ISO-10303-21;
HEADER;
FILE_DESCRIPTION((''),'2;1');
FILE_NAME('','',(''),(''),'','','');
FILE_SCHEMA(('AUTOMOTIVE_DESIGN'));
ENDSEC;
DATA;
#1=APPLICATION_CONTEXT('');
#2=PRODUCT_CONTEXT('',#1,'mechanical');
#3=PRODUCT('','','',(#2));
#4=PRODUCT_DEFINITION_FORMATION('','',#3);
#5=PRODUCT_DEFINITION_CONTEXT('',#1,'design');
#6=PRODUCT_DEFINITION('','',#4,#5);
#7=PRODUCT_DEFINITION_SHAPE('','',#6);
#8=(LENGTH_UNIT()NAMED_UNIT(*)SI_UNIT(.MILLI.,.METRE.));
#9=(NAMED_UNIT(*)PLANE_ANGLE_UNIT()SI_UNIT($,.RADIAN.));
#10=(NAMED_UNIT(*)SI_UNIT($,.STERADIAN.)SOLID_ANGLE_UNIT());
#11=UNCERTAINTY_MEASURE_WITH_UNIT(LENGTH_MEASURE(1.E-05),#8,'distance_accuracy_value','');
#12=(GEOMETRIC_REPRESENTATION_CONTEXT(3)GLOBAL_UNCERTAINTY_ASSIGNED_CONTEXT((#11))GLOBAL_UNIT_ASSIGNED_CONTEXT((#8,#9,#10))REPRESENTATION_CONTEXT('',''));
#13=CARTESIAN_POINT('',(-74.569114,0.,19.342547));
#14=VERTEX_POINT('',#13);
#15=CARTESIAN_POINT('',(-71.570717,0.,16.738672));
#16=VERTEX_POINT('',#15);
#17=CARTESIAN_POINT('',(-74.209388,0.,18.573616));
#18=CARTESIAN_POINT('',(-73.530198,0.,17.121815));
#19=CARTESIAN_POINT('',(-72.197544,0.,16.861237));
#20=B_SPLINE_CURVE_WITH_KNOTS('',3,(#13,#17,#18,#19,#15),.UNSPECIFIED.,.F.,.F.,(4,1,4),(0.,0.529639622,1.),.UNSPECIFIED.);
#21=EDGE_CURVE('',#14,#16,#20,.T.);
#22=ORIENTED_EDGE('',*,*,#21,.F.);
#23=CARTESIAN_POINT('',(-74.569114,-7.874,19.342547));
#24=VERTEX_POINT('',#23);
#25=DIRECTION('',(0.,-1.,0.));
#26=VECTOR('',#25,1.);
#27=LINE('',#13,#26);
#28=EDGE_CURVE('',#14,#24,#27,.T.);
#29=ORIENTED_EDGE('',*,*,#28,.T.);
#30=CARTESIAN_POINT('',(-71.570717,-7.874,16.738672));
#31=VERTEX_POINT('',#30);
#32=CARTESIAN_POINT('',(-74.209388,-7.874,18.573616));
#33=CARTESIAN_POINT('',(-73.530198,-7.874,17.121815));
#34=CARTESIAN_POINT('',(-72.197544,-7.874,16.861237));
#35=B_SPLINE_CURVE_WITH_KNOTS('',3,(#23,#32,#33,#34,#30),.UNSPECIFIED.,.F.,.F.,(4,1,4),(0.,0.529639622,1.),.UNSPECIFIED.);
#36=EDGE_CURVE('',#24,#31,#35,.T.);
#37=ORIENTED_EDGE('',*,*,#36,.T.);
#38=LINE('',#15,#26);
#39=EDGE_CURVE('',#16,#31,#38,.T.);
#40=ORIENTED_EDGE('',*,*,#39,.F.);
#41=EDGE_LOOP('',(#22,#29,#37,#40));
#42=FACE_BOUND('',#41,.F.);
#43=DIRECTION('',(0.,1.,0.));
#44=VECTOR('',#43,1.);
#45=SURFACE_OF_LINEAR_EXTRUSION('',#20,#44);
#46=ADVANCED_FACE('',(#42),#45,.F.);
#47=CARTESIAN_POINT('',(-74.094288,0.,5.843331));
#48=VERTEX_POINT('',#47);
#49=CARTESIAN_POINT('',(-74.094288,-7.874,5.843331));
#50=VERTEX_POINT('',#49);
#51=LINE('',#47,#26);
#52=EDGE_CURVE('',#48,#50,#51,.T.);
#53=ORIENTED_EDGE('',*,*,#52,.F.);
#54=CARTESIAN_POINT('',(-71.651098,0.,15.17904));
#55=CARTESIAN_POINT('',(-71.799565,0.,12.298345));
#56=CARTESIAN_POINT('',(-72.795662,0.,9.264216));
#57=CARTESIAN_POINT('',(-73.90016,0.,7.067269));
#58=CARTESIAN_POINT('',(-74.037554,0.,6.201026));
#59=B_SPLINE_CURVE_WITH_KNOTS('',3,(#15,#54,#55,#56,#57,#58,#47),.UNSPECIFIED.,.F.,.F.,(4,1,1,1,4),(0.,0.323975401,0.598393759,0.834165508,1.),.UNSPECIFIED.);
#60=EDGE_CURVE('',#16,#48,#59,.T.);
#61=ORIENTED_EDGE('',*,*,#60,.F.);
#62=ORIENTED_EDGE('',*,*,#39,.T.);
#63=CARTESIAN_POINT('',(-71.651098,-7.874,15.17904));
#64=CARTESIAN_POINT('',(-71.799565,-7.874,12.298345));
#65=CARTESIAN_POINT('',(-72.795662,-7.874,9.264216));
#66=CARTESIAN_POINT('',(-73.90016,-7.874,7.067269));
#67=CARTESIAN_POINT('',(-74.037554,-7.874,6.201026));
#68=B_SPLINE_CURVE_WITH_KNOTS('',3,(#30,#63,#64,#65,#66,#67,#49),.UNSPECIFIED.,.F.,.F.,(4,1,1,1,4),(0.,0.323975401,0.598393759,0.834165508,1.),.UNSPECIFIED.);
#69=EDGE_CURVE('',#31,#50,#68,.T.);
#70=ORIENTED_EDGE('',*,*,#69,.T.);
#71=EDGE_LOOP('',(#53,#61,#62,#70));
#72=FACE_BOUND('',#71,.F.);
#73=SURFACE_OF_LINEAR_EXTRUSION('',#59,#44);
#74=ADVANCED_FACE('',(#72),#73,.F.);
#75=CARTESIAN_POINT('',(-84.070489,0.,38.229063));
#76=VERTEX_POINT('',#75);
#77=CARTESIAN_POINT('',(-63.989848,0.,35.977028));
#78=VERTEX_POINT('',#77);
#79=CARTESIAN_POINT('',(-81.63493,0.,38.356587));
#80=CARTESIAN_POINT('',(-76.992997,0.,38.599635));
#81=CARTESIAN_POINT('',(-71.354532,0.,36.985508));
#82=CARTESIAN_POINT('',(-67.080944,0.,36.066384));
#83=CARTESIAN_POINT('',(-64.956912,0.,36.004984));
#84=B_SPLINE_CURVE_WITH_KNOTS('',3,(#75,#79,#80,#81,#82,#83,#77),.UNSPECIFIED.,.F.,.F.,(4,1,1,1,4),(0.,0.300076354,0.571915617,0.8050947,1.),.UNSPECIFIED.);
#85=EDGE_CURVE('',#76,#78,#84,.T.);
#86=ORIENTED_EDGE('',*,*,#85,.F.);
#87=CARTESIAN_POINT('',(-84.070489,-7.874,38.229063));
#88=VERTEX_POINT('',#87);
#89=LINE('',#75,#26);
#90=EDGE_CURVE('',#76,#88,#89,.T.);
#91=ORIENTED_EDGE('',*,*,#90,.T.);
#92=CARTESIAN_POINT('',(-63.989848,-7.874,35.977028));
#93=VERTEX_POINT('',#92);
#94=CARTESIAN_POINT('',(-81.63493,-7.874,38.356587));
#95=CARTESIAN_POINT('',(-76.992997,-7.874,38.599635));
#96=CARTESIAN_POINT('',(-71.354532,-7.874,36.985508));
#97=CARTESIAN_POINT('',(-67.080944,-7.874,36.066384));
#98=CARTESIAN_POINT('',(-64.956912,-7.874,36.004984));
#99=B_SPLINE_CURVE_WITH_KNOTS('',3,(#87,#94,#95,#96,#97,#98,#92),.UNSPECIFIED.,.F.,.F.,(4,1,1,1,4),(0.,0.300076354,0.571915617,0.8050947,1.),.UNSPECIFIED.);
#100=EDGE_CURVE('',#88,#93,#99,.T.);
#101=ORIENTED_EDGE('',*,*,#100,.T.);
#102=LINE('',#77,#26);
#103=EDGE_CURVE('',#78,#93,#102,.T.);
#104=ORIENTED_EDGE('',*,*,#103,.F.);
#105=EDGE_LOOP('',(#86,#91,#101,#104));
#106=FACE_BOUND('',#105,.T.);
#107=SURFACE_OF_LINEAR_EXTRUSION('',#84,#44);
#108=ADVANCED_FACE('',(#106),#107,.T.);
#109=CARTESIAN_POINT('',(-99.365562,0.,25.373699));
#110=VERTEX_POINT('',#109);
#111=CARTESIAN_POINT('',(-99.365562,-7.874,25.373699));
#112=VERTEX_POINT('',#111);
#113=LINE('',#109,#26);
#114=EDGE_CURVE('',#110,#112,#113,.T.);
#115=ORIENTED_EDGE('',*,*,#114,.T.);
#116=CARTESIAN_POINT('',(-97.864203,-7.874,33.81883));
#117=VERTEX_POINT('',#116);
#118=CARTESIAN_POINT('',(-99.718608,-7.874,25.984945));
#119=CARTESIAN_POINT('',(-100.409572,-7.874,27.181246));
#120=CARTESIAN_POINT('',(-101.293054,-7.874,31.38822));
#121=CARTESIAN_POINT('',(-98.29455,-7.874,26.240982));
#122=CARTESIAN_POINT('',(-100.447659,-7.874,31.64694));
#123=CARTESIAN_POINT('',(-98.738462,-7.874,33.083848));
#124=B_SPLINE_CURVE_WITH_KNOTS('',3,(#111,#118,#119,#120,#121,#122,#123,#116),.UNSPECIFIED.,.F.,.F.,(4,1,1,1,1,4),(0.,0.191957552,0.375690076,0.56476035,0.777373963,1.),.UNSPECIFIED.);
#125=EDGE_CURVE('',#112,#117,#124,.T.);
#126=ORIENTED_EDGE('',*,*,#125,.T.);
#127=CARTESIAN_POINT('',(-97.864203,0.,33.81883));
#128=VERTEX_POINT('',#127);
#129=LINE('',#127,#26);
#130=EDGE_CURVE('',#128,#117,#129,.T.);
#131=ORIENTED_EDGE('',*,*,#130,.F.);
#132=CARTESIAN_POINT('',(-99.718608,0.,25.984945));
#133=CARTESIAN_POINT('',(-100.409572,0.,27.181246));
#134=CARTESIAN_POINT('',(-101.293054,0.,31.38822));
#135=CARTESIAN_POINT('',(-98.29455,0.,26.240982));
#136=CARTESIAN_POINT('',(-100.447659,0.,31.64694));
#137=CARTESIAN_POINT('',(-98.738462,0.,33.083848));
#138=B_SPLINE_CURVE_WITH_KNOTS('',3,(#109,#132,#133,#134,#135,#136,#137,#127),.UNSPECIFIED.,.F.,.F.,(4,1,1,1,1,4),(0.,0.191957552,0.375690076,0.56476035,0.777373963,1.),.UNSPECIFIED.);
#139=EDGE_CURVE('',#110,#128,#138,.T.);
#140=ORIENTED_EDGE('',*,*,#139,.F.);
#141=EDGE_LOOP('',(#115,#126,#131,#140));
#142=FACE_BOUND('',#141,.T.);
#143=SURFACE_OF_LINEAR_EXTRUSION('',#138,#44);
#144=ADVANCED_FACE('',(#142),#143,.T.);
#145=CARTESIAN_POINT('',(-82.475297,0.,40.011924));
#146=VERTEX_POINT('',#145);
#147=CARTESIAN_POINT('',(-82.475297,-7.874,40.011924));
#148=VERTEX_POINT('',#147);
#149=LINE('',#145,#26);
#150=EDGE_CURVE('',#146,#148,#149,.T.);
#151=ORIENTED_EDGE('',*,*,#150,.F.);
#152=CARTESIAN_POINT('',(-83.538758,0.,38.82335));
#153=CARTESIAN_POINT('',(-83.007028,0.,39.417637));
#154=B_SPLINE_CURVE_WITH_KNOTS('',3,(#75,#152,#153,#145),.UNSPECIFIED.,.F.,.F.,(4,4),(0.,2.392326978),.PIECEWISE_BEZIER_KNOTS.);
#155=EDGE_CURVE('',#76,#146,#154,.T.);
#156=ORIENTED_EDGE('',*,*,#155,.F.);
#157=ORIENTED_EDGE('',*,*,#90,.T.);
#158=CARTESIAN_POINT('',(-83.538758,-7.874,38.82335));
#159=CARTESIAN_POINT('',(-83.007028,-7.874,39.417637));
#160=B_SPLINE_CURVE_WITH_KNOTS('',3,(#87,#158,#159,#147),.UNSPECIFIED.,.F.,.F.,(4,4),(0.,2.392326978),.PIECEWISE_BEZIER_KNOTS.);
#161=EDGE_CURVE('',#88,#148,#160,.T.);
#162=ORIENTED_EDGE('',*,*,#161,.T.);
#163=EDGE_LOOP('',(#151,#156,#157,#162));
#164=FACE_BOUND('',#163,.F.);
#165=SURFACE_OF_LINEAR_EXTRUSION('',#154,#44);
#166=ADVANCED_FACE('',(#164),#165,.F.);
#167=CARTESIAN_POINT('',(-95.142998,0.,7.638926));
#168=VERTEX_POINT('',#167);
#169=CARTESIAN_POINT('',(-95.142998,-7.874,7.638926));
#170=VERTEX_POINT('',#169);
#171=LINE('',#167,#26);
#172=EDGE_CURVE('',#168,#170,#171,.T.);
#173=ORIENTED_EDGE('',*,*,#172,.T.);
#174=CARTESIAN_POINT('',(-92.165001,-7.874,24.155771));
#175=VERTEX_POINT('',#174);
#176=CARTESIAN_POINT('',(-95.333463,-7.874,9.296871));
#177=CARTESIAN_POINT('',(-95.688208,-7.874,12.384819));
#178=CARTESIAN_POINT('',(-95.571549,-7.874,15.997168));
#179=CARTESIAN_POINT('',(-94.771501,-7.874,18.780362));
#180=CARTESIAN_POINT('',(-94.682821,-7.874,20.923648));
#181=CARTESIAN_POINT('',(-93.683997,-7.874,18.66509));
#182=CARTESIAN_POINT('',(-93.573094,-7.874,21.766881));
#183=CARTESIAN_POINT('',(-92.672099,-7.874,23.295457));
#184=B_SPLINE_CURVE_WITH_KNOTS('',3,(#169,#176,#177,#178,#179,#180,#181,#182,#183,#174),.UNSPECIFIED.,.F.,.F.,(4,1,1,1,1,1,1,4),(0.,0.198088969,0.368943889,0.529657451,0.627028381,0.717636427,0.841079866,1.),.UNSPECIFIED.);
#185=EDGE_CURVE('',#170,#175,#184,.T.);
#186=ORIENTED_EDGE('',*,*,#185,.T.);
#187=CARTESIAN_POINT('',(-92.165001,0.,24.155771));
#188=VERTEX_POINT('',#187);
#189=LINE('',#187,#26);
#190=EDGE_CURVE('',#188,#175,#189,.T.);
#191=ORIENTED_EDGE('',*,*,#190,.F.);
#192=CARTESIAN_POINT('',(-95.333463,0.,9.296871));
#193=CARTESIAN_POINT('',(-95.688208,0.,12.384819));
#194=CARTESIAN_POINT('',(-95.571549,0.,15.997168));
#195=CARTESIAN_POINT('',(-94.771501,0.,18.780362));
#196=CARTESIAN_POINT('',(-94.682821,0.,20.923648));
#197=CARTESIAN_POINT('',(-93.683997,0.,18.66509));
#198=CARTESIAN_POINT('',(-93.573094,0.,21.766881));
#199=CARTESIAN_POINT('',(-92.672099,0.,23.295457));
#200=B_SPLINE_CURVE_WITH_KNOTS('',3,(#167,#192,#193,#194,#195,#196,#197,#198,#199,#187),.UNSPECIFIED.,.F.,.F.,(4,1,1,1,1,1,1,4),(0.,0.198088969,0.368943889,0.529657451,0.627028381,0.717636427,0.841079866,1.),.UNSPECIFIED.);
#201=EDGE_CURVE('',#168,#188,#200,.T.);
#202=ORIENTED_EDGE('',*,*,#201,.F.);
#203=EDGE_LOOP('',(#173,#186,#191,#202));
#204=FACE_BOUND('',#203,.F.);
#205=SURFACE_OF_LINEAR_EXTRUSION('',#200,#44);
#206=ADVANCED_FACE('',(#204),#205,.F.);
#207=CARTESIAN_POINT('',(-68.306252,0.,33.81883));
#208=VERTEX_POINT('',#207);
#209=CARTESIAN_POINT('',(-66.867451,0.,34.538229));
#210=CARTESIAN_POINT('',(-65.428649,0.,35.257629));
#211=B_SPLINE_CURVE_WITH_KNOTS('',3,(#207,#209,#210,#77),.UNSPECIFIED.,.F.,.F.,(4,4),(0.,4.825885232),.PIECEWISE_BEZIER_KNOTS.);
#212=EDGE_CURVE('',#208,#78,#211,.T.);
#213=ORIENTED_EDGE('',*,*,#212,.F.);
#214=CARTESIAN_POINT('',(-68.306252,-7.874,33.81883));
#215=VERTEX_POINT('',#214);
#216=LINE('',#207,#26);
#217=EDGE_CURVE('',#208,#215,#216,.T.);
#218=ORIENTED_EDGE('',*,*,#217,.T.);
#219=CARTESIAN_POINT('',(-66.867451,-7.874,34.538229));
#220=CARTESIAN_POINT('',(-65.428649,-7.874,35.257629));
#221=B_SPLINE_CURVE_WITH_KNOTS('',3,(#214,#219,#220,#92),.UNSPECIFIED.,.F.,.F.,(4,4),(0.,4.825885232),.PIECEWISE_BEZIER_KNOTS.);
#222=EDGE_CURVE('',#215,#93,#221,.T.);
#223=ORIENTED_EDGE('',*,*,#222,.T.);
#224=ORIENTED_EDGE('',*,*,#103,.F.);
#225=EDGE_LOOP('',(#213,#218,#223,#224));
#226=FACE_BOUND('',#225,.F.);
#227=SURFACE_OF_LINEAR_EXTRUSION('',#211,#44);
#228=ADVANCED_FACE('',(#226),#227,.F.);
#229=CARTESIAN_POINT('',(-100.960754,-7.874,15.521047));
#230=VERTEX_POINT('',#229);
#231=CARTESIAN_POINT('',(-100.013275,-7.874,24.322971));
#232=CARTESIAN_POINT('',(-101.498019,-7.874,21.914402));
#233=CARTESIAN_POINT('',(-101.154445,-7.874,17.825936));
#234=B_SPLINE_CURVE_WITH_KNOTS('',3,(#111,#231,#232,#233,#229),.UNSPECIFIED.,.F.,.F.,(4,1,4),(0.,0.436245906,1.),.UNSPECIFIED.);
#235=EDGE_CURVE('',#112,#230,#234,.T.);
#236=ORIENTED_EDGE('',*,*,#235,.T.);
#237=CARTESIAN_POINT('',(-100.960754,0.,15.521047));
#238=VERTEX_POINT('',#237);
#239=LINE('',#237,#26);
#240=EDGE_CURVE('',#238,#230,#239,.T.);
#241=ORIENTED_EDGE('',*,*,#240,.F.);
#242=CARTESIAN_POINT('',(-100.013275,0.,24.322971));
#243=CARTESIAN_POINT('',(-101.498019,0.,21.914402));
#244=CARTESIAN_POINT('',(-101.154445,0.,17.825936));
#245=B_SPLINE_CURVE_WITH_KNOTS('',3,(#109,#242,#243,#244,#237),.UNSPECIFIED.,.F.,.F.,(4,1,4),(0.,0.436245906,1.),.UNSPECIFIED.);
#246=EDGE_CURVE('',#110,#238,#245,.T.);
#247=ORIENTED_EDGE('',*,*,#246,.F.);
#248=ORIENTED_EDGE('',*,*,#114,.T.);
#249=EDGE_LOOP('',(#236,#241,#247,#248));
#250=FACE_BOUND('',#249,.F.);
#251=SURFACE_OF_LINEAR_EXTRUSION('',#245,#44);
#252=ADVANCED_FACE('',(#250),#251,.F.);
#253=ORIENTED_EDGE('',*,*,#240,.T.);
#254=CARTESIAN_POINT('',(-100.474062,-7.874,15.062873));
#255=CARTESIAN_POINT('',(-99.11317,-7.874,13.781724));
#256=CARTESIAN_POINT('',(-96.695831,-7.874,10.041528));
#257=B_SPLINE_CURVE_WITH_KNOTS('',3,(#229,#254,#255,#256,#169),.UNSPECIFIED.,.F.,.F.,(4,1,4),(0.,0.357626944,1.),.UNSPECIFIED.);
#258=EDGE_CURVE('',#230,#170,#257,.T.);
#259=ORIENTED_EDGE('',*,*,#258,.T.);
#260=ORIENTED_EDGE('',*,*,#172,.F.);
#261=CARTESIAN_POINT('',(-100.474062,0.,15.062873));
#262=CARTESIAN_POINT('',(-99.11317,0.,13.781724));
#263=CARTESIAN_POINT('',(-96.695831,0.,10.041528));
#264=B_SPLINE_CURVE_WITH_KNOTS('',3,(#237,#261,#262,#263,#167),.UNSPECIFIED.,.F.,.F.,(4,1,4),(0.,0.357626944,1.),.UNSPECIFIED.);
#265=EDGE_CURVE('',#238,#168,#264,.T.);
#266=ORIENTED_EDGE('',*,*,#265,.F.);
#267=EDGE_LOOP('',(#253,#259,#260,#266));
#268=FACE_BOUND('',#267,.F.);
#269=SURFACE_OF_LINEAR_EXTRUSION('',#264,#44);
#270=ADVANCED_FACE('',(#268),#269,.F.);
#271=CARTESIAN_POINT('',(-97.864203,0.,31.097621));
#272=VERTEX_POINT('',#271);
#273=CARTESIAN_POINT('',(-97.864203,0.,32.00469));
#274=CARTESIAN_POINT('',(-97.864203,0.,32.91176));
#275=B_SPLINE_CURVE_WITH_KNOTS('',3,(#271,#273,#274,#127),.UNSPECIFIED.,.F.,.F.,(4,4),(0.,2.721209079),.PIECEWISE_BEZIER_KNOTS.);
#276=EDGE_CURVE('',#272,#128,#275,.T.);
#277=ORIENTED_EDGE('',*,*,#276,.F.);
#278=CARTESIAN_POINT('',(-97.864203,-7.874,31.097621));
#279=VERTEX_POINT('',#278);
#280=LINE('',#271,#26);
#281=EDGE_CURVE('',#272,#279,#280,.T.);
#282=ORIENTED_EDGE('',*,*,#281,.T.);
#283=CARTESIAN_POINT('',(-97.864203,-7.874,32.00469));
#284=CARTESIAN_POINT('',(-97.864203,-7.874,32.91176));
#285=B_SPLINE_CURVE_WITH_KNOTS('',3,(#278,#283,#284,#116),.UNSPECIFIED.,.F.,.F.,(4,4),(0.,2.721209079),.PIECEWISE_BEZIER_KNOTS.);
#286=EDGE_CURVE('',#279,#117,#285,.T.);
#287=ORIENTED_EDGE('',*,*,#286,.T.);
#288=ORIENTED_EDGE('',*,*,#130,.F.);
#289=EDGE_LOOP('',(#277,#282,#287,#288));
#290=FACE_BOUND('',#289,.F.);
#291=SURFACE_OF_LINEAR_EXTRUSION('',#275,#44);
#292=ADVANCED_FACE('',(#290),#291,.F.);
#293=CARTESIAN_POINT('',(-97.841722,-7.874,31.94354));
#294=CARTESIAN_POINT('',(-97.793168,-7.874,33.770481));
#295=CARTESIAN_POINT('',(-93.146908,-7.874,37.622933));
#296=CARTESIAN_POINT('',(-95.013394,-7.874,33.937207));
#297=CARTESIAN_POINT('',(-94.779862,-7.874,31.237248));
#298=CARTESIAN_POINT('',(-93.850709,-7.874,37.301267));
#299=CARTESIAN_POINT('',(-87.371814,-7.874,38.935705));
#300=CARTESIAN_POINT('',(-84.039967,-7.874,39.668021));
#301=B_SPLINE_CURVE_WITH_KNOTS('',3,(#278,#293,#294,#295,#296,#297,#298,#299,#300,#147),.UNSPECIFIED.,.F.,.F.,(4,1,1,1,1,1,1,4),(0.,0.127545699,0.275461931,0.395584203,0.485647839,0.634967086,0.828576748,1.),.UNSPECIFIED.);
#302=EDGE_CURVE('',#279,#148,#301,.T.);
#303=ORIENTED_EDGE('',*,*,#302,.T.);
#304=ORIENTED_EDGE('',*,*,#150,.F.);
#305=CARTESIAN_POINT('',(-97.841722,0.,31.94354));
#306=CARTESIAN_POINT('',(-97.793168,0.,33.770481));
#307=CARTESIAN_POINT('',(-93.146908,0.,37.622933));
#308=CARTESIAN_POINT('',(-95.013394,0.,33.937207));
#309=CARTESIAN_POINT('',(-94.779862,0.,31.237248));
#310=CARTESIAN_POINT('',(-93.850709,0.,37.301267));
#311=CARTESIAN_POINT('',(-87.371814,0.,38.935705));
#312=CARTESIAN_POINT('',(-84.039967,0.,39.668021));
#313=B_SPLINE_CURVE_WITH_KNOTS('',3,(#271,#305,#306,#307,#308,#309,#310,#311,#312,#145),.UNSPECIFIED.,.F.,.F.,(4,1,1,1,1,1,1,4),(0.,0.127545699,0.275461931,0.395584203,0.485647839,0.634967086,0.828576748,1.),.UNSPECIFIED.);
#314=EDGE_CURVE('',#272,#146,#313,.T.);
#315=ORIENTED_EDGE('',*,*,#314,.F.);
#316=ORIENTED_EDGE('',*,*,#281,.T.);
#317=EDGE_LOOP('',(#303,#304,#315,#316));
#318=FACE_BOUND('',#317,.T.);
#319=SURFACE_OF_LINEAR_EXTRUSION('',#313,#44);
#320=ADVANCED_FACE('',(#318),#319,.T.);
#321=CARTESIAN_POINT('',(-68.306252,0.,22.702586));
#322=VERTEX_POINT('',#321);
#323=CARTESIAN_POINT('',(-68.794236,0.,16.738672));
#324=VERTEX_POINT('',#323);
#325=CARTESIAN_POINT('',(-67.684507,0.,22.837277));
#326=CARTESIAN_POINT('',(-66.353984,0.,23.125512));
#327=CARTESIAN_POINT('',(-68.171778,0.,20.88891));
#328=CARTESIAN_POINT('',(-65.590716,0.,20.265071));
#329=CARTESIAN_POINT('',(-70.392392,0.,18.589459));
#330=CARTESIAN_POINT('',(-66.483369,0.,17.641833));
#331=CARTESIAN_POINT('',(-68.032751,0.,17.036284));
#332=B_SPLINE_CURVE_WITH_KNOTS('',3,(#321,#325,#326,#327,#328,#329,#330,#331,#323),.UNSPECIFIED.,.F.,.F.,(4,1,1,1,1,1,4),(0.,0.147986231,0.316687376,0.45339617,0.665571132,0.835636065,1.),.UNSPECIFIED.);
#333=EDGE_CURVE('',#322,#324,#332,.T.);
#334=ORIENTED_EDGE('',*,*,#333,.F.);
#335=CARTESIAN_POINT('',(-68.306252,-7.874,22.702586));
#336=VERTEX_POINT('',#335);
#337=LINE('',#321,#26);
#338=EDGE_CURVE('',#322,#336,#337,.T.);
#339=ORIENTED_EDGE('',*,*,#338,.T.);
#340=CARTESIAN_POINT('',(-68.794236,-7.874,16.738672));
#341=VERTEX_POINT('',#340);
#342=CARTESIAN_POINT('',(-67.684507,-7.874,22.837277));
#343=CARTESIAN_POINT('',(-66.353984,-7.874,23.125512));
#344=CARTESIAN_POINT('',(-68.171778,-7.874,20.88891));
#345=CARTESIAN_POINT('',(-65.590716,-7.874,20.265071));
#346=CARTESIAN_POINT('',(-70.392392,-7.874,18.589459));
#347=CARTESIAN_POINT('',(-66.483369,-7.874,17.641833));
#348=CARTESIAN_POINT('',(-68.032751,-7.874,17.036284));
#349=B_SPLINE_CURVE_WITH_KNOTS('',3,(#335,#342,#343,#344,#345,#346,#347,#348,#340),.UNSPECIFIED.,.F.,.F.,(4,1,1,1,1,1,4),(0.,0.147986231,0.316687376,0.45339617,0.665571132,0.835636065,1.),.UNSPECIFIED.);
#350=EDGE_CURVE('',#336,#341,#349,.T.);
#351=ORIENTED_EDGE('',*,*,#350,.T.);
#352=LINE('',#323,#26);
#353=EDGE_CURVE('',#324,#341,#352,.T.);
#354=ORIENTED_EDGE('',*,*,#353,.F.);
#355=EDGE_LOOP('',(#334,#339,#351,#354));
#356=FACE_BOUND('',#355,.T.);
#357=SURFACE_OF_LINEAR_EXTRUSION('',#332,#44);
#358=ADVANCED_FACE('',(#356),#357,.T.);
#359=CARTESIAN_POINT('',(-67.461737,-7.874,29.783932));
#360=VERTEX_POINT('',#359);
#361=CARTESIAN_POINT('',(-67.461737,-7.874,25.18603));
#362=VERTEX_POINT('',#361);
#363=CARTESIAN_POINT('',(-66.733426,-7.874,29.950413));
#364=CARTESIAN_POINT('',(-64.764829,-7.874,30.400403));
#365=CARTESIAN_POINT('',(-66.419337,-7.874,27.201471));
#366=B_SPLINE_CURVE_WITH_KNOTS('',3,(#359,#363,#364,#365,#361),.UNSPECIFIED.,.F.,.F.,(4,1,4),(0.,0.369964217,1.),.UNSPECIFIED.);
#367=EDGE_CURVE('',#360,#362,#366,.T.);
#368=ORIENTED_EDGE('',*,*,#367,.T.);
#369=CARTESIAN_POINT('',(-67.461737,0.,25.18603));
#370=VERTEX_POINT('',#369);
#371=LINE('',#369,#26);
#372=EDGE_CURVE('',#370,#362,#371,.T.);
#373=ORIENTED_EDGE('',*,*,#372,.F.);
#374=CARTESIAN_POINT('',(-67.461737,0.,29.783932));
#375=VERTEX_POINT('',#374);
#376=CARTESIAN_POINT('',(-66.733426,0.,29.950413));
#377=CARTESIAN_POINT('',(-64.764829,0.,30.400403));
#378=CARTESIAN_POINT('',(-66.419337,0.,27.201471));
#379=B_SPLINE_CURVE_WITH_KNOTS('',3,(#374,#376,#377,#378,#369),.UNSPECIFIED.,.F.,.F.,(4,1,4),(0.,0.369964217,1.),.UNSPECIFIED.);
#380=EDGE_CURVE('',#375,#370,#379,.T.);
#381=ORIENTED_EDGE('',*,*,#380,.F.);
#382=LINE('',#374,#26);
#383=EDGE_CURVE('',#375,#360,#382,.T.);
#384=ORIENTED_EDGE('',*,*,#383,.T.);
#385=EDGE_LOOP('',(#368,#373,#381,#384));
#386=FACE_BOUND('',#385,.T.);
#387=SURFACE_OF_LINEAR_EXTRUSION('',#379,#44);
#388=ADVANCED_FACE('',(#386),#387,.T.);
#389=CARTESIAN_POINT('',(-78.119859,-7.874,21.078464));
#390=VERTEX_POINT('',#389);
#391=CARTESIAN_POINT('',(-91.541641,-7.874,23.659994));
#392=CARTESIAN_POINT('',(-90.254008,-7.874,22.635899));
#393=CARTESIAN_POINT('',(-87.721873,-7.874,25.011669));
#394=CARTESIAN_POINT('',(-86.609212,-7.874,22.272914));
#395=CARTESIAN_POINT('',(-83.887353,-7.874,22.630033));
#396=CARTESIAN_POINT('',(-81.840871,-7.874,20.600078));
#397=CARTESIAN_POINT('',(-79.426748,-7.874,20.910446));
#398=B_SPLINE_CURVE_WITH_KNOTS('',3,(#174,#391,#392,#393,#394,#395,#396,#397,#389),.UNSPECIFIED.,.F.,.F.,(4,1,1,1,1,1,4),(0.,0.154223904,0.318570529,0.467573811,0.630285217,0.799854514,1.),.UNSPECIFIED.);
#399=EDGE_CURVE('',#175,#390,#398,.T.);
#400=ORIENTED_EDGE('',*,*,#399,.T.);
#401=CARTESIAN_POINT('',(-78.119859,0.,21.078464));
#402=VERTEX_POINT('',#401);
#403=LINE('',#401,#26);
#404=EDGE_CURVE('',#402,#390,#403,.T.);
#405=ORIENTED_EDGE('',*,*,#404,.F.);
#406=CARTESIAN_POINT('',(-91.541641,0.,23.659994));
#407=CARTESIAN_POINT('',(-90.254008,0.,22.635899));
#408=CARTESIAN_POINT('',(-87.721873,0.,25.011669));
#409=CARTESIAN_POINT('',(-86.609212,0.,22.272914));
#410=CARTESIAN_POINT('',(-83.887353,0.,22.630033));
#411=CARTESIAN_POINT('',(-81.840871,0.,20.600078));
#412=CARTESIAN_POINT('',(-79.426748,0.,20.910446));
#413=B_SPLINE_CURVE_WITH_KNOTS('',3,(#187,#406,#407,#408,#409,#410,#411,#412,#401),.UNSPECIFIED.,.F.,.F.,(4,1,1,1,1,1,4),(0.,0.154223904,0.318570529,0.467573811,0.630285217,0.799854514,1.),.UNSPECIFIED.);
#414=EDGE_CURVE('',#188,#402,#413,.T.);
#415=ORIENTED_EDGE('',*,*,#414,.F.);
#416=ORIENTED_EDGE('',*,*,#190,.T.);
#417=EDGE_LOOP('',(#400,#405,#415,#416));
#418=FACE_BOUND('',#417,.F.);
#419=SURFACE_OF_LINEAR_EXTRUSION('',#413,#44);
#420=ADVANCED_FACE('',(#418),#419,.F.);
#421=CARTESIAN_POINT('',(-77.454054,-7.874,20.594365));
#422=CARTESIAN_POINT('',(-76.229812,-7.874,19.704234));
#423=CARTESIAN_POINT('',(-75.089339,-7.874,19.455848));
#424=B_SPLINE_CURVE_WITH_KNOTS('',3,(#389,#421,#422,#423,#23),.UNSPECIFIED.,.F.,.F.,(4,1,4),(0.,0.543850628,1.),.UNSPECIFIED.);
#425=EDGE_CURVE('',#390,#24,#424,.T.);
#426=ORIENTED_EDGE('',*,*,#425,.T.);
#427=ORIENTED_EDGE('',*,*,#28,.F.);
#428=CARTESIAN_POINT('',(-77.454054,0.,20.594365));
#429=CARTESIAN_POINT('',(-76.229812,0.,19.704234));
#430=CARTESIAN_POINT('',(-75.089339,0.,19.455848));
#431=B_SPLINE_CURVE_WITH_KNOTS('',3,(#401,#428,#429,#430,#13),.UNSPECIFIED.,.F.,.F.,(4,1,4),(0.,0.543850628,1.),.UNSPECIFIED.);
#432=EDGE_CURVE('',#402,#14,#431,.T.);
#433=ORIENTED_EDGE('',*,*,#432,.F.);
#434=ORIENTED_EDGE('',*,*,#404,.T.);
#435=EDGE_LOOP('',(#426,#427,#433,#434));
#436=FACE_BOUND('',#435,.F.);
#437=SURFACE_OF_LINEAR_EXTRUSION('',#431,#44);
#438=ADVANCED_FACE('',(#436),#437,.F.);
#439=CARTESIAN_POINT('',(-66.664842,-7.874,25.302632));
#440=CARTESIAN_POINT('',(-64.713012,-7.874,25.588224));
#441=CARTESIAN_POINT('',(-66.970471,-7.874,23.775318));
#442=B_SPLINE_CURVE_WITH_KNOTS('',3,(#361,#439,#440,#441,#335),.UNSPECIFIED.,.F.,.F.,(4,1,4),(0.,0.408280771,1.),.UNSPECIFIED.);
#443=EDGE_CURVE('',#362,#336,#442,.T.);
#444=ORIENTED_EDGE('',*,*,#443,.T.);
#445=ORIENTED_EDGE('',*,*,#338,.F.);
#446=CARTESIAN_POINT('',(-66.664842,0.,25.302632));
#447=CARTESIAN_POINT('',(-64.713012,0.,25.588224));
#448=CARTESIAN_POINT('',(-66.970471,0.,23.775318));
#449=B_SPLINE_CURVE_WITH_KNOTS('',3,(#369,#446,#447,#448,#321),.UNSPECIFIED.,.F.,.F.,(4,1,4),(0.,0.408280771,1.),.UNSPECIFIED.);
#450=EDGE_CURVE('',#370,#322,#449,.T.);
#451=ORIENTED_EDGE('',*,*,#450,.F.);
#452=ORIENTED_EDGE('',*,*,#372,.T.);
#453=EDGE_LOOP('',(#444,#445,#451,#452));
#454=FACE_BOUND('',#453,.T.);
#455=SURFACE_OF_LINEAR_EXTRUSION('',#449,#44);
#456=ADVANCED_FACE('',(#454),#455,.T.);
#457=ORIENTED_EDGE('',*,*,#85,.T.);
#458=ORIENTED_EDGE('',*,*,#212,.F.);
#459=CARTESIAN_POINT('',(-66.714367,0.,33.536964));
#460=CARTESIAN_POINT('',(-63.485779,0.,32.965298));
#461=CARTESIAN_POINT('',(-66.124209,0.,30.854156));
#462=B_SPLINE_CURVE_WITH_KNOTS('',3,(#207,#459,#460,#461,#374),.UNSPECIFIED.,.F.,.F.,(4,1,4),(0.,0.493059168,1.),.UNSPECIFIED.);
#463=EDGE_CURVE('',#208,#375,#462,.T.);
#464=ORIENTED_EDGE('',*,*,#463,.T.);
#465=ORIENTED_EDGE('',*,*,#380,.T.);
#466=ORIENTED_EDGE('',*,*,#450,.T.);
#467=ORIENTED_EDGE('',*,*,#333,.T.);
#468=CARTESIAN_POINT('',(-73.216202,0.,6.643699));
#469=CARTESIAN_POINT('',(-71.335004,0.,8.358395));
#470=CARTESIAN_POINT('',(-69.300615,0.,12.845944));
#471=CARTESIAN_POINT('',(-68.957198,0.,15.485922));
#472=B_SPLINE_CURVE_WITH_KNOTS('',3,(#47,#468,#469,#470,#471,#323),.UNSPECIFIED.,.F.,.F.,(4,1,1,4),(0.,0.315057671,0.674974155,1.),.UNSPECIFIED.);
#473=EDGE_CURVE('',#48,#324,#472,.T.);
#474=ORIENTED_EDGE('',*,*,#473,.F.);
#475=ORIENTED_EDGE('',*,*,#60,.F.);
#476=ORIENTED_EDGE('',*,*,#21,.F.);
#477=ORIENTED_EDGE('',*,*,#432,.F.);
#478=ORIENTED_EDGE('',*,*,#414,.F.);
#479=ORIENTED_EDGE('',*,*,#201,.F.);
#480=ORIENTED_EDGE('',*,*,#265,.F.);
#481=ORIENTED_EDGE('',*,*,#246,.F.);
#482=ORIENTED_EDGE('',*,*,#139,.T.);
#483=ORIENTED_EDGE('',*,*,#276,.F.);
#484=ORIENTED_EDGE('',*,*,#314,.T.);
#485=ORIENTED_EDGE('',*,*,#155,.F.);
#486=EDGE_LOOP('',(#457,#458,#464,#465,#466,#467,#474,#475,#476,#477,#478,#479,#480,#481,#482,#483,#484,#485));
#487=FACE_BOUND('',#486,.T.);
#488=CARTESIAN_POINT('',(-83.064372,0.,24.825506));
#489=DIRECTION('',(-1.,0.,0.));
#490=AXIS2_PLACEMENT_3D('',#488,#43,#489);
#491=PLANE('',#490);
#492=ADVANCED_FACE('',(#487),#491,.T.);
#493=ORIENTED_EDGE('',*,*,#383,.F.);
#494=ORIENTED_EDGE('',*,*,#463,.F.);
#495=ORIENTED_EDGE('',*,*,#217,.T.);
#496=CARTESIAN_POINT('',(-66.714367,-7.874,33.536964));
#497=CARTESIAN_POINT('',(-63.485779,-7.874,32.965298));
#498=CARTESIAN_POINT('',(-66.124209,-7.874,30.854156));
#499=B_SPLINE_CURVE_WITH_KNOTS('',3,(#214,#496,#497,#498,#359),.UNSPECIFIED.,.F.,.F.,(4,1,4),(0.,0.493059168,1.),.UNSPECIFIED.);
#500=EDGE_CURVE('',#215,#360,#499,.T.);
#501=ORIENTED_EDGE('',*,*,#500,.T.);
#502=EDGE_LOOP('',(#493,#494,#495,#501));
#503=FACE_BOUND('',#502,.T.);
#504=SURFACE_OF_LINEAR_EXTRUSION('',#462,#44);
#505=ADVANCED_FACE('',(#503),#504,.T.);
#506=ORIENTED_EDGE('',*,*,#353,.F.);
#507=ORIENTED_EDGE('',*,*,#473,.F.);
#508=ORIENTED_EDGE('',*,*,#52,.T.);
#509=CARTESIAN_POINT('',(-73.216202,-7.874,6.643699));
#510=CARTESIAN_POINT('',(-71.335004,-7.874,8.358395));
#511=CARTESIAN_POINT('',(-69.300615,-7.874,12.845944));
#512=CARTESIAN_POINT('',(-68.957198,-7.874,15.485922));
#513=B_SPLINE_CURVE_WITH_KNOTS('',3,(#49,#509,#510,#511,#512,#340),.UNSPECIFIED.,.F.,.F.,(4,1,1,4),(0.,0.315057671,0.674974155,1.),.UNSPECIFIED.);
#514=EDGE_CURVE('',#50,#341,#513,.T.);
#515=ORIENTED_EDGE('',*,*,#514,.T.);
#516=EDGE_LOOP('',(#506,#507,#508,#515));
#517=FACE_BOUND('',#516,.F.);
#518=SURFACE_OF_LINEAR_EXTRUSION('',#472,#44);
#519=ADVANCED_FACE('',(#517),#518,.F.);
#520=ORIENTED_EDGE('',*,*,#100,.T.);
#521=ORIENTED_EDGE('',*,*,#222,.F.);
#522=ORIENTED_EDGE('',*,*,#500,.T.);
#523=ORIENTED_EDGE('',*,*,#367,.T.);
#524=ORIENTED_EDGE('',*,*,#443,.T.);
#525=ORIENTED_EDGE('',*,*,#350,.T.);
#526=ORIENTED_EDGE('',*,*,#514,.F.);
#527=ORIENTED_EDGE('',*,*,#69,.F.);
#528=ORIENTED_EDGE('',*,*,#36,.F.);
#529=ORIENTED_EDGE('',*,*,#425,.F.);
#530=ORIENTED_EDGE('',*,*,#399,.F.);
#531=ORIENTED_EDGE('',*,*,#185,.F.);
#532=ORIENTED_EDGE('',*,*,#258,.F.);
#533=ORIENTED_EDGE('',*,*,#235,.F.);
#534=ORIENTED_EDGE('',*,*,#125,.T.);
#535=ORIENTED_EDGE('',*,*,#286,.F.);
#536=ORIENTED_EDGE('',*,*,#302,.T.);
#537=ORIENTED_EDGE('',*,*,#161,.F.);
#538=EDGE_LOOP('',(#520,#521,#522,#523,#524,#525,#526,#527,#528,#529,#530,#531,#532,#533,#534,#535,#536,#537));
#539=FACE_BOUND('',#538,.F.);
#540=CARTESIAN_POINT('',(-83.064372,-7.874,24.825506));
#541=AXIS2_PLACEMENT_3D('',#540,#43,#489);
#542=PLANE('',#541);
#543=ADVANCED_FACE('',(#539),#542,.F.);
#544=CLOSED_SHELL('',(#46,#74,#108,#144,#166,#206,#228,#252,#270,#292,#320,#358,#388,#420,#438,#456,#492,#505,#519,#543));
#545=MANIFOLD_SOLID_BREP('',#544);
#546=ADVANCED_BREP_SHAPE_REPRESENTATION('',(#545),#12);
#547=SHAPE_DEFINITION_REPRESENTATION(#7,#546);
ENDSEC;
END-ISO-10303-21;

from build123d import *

# Parameters (mm, degrees)
F1_DEPTH = 7.874


with BuildPart() as f1:
    # F0 (on Front) → F1 (new body)
    with BuildSketch(Plane.XZ):
        with BuildLine():
            add(Edge.make_bspline(
                [(-99.3655622005, 25.3736991435), (-99.7186079425, 25.9849450713), (-100.4095720668, 27.1812461651), (-101.2930539888, 31.3882195194), (-98.2945495239, 26.2409821445), (-100.4476592805, 31.6469396337), (-98.7384615482, 33.0838480133), (-97.864203155, 33.8188298047)],
                knots=[0, 0, 0, 0, 0.1919575518, 0.3756900762, 0.5647603496, 0.7773739631, 1, 1, 1, 1], degree=3))
            add(Edge.make_bspline(
                [(-99.3655622005, 25.3736991435), (-100.0132753914, 24.3229709329), (-101.4980187016, 21.9144022893), (-101.1544449609, 17.8259362004), (-100.9607538581, 15.5210467055)],
                knots=[0, 0, 0, 0, 0.4362459062, 1, 1, 1, 1], degree=3))
            add(Edge.make_bspline(
                [(-100.9607538581, 15.5210467055), (-100.4740620901, 15.0628732588), (-99.1131697527, 13.7817241335), (-96.6958310505, 10.0415276176), (-95.1429978013, 7.6389261521)],
                knots=[0, 0, 0, 0, 0.3576269442, 1, 1, 1, 1], degree=3))
            add(Edge.make_bspline(
                [(-95.1429978013, 7.6389261521), (-95.3334632568, 9.2968706401), (-95.6882082283, 12.3848188919), (-95.5715488401, 15.9971678292), (-94.7715010539, 18.7803615904), (-94.6828212472, 20.9236480055), (-93.6839967088, 18.6650899521), (-93.573093741, 21.766880784), (-92.6720992878, 23.295456774), (-92.1650007367, 24.1557713598)],
                knots=[0, 0, 0, 0, 0.1980889695, 0.3689438889, 0.5296574507, 0.6270283815, 0.7176364267, 0.8410798663, 1, 1, 1, 1], degree=3))
            add(Edge.make_bspline(
                [(-92.1650007367, 24.1557713598), (-91.5416413772, 23.6599942204), (-90.2540075189, 22.6358988555), (-87.721873428, 25.0116694584), (-86.6092124754, 22.2729142516), (-83.8873526604, 22.6300329458), (-81.8408712751, 20.6000784457), (-79.4267475279, 20.9104458975), (-78.1198590994, 21.0784636438)],
                knots=[0, 0, 0, 0, 0.1542239042, 0.3185705288, 0.4675738109, 0.6302852175, 0.7998545138, 1, 1, 1, 1], degree=3))
            add(Edge.make_bspline(
                [(-78.1198590994, 21.0784636438), (-77.4540540867, 20.5943651335), (-76.2298116593, 19.7042337527), (-75.0893393023, 19.4558481976), (-74.5691135526, 19.3425472826)],
                knots=[0, 0, 0, 0, 0.5438506277, 1, 1, 1, 1], degree=3))
            add(Edge.make_bspline(
                [(-74.5691135526, 19.3425472826), (-74.2093877038, 18.5736159104), (-73.5301978659, 17.1218148349), (-72.197544255, 16.861237203), (-71.5707167983, 16.7386718094)],
                knots=[0, 0, 0, 0, 0.5296396216, 1, 1, 1, 1], degree=3))
            add(Edge.make_bspline(
                [(-71.5707167983, 16.7386718094), (-71.6510979271, 15.1790395667), (-71.7995646494, 12.2983449261), (-72.7956620423, 9.2642161377), (-73.9001602017, 7.0672689467), (-74.0375542083, 6.2010264767), (-74.0942880511, 5.8433306403)],
                knots=[0, 0, 0, 0, 0.3239754008, 0.5983937592, 0.8341655077, 1, 1, 1, 1], degree=3))
            add(Edge.make_bspline(
                [(-74.0942880511, 5.8433306403), (-73.2162015208, 6.6436990205), (-71.3350039849, 8.3583945232), (-69.3006153942, 12.8459435708), (-68.9571976772, 15.4859221523), (-68.7942355871, 16.7386718094)],
                knots=[0, 0, 0, 0, 0.315057671, 0.6749741555, 1, 1, 1, 1], degree=3))
            add(Edge.make_bspline(
                [(-68.3062523603, 22.7025859058), (-67.6845067557, 22.8372767723), (-66.3539844307, 23.1255123521), (-68.1717779682, 20.8889096751), (-65.5907157134, 20.2650706615), (-70.3923916114, 18.5894592597), (-66.4833691472, 17.6418325194), (-68.0327508594, 17.0362844604), (-68.7942355871, 16.7386718094)],
                knots=[0, 0, 0, 0, 0.1479862311, 0.3166873762, 0.4533961697, 0.6655711315, 0.8356360645, 1, 1, 1, 1], degree=3))
            add(Edge.make_bspline(
                [(-67.4617365003, 25.1860301942), (-66.6648418163, 25.3026320171), (-64.7130117494, 25.5882242648), (-66.970470568, 23.7753176253), (-68.3062523603, 22.7025859058)],
                knots=[0, 0, 0, 0, 0.4082807707, 1, 1, 1, 1], degree=3))
            add(Edge.make_bspline(
                [(-67.4617365003, 29.7839324921), (-66.7334260158, 29.9504127404), (-64.7648289171, 30.400402876), (-66.4193371258, 27.2014714558), (-67.4617365003, 25.1860301942)],
                knots=[0, 0, 0, 0, 0.3699642171, 1, 1, 1, 1], degree=3))
            add(Edge.make_bspline(
                [(-68.3062523603, 33.8188298047), (-66.7143672404, 33.5369644734), (-63.48577882, 32.9652981308), (-66.1242086744, 30.8541564251), (-67.4617365003, 29.7839324921)],
                knots=[0, 0, 0, 0, 0.4930591679, 1, 1, 1, 1], degree=3))
            add(Edge.make_bspline(
                [(-68.3062523603, 33.8188298047), (-66.8674508731, 34.5382293065), (-65.4286493858, 35.2576288084), (-63.9898478985, 35.9770283103)],
                knots=[0, 0, 0, 0, 4.8258852316, 4.8258852316, 4.8258852316, 4.8258852316], degree=3))
            add(Edge.make_bspline(
                [(-84.0704888105, 38.2290631533), (-81.6349296493, 38.3565872575), (-76.9929966741, 38.5996354881), (-71.3545323935, 36.9855078159), (-67.0809444322, 36.0663838719), (-64.9569122247, 36.0049836249), (-63.9898478985, 35.9770283103)],
                knots=[0, 0, 0, 0, 0.3000763537, 0.5719156174, 0.8050946998, 1, 1, 1, 1], degree=3))
            add(Edge.make_bspline(
                [(-84.0704888105, 38.2290631533), (-83.538758258, 38.8233500222), (-83.0070277055, 39.4176368912), (-82.475297153, 40.0119237602)],
                knots=[0, 0, 0, 0, 2.3923269776, 2.3923269776, 2.3923269776, 2.3923269776], degree=3))
            add(Edge.make_bspline(
                [(-97.864203155, 31.0976207256), (-97.8417216214, 31.9435399045), (-97.7931679915, 33.770481402), (-93.1469084996, 37.6229334342), (-95.0133940493, 33.9372070268), (-94.7798622132, 31.237248278), (-93.8507090221, 37.301266744), (-87.3718141015, 38.9357050974), (-84.0399671356, 39.6680207258), (-82.475297153, 40.0119237602)],
                knots=[0, 0, 0, 0, 0.127545699, 0.2754619309, 0.3955842031, 0.4856478387, 0.6349670858, 0.8285767476, 1, 1, 1, 1], degree=3))
            add(Edge.make_bspline(
                [(-97.864203155, 31.0976207256), (-97.864203155, 32.0046904186), (-97.864203155, 32.9117601116), (-97.864203155, 33.8188298047)],
                knots=[0, 0, 0, 0, 2.721209079, 2.721209079, 2.721209079, 2.721209079], degree=3))
        make_face()
    extrude(amount=F1_DEPTH)


solid = f1.part
